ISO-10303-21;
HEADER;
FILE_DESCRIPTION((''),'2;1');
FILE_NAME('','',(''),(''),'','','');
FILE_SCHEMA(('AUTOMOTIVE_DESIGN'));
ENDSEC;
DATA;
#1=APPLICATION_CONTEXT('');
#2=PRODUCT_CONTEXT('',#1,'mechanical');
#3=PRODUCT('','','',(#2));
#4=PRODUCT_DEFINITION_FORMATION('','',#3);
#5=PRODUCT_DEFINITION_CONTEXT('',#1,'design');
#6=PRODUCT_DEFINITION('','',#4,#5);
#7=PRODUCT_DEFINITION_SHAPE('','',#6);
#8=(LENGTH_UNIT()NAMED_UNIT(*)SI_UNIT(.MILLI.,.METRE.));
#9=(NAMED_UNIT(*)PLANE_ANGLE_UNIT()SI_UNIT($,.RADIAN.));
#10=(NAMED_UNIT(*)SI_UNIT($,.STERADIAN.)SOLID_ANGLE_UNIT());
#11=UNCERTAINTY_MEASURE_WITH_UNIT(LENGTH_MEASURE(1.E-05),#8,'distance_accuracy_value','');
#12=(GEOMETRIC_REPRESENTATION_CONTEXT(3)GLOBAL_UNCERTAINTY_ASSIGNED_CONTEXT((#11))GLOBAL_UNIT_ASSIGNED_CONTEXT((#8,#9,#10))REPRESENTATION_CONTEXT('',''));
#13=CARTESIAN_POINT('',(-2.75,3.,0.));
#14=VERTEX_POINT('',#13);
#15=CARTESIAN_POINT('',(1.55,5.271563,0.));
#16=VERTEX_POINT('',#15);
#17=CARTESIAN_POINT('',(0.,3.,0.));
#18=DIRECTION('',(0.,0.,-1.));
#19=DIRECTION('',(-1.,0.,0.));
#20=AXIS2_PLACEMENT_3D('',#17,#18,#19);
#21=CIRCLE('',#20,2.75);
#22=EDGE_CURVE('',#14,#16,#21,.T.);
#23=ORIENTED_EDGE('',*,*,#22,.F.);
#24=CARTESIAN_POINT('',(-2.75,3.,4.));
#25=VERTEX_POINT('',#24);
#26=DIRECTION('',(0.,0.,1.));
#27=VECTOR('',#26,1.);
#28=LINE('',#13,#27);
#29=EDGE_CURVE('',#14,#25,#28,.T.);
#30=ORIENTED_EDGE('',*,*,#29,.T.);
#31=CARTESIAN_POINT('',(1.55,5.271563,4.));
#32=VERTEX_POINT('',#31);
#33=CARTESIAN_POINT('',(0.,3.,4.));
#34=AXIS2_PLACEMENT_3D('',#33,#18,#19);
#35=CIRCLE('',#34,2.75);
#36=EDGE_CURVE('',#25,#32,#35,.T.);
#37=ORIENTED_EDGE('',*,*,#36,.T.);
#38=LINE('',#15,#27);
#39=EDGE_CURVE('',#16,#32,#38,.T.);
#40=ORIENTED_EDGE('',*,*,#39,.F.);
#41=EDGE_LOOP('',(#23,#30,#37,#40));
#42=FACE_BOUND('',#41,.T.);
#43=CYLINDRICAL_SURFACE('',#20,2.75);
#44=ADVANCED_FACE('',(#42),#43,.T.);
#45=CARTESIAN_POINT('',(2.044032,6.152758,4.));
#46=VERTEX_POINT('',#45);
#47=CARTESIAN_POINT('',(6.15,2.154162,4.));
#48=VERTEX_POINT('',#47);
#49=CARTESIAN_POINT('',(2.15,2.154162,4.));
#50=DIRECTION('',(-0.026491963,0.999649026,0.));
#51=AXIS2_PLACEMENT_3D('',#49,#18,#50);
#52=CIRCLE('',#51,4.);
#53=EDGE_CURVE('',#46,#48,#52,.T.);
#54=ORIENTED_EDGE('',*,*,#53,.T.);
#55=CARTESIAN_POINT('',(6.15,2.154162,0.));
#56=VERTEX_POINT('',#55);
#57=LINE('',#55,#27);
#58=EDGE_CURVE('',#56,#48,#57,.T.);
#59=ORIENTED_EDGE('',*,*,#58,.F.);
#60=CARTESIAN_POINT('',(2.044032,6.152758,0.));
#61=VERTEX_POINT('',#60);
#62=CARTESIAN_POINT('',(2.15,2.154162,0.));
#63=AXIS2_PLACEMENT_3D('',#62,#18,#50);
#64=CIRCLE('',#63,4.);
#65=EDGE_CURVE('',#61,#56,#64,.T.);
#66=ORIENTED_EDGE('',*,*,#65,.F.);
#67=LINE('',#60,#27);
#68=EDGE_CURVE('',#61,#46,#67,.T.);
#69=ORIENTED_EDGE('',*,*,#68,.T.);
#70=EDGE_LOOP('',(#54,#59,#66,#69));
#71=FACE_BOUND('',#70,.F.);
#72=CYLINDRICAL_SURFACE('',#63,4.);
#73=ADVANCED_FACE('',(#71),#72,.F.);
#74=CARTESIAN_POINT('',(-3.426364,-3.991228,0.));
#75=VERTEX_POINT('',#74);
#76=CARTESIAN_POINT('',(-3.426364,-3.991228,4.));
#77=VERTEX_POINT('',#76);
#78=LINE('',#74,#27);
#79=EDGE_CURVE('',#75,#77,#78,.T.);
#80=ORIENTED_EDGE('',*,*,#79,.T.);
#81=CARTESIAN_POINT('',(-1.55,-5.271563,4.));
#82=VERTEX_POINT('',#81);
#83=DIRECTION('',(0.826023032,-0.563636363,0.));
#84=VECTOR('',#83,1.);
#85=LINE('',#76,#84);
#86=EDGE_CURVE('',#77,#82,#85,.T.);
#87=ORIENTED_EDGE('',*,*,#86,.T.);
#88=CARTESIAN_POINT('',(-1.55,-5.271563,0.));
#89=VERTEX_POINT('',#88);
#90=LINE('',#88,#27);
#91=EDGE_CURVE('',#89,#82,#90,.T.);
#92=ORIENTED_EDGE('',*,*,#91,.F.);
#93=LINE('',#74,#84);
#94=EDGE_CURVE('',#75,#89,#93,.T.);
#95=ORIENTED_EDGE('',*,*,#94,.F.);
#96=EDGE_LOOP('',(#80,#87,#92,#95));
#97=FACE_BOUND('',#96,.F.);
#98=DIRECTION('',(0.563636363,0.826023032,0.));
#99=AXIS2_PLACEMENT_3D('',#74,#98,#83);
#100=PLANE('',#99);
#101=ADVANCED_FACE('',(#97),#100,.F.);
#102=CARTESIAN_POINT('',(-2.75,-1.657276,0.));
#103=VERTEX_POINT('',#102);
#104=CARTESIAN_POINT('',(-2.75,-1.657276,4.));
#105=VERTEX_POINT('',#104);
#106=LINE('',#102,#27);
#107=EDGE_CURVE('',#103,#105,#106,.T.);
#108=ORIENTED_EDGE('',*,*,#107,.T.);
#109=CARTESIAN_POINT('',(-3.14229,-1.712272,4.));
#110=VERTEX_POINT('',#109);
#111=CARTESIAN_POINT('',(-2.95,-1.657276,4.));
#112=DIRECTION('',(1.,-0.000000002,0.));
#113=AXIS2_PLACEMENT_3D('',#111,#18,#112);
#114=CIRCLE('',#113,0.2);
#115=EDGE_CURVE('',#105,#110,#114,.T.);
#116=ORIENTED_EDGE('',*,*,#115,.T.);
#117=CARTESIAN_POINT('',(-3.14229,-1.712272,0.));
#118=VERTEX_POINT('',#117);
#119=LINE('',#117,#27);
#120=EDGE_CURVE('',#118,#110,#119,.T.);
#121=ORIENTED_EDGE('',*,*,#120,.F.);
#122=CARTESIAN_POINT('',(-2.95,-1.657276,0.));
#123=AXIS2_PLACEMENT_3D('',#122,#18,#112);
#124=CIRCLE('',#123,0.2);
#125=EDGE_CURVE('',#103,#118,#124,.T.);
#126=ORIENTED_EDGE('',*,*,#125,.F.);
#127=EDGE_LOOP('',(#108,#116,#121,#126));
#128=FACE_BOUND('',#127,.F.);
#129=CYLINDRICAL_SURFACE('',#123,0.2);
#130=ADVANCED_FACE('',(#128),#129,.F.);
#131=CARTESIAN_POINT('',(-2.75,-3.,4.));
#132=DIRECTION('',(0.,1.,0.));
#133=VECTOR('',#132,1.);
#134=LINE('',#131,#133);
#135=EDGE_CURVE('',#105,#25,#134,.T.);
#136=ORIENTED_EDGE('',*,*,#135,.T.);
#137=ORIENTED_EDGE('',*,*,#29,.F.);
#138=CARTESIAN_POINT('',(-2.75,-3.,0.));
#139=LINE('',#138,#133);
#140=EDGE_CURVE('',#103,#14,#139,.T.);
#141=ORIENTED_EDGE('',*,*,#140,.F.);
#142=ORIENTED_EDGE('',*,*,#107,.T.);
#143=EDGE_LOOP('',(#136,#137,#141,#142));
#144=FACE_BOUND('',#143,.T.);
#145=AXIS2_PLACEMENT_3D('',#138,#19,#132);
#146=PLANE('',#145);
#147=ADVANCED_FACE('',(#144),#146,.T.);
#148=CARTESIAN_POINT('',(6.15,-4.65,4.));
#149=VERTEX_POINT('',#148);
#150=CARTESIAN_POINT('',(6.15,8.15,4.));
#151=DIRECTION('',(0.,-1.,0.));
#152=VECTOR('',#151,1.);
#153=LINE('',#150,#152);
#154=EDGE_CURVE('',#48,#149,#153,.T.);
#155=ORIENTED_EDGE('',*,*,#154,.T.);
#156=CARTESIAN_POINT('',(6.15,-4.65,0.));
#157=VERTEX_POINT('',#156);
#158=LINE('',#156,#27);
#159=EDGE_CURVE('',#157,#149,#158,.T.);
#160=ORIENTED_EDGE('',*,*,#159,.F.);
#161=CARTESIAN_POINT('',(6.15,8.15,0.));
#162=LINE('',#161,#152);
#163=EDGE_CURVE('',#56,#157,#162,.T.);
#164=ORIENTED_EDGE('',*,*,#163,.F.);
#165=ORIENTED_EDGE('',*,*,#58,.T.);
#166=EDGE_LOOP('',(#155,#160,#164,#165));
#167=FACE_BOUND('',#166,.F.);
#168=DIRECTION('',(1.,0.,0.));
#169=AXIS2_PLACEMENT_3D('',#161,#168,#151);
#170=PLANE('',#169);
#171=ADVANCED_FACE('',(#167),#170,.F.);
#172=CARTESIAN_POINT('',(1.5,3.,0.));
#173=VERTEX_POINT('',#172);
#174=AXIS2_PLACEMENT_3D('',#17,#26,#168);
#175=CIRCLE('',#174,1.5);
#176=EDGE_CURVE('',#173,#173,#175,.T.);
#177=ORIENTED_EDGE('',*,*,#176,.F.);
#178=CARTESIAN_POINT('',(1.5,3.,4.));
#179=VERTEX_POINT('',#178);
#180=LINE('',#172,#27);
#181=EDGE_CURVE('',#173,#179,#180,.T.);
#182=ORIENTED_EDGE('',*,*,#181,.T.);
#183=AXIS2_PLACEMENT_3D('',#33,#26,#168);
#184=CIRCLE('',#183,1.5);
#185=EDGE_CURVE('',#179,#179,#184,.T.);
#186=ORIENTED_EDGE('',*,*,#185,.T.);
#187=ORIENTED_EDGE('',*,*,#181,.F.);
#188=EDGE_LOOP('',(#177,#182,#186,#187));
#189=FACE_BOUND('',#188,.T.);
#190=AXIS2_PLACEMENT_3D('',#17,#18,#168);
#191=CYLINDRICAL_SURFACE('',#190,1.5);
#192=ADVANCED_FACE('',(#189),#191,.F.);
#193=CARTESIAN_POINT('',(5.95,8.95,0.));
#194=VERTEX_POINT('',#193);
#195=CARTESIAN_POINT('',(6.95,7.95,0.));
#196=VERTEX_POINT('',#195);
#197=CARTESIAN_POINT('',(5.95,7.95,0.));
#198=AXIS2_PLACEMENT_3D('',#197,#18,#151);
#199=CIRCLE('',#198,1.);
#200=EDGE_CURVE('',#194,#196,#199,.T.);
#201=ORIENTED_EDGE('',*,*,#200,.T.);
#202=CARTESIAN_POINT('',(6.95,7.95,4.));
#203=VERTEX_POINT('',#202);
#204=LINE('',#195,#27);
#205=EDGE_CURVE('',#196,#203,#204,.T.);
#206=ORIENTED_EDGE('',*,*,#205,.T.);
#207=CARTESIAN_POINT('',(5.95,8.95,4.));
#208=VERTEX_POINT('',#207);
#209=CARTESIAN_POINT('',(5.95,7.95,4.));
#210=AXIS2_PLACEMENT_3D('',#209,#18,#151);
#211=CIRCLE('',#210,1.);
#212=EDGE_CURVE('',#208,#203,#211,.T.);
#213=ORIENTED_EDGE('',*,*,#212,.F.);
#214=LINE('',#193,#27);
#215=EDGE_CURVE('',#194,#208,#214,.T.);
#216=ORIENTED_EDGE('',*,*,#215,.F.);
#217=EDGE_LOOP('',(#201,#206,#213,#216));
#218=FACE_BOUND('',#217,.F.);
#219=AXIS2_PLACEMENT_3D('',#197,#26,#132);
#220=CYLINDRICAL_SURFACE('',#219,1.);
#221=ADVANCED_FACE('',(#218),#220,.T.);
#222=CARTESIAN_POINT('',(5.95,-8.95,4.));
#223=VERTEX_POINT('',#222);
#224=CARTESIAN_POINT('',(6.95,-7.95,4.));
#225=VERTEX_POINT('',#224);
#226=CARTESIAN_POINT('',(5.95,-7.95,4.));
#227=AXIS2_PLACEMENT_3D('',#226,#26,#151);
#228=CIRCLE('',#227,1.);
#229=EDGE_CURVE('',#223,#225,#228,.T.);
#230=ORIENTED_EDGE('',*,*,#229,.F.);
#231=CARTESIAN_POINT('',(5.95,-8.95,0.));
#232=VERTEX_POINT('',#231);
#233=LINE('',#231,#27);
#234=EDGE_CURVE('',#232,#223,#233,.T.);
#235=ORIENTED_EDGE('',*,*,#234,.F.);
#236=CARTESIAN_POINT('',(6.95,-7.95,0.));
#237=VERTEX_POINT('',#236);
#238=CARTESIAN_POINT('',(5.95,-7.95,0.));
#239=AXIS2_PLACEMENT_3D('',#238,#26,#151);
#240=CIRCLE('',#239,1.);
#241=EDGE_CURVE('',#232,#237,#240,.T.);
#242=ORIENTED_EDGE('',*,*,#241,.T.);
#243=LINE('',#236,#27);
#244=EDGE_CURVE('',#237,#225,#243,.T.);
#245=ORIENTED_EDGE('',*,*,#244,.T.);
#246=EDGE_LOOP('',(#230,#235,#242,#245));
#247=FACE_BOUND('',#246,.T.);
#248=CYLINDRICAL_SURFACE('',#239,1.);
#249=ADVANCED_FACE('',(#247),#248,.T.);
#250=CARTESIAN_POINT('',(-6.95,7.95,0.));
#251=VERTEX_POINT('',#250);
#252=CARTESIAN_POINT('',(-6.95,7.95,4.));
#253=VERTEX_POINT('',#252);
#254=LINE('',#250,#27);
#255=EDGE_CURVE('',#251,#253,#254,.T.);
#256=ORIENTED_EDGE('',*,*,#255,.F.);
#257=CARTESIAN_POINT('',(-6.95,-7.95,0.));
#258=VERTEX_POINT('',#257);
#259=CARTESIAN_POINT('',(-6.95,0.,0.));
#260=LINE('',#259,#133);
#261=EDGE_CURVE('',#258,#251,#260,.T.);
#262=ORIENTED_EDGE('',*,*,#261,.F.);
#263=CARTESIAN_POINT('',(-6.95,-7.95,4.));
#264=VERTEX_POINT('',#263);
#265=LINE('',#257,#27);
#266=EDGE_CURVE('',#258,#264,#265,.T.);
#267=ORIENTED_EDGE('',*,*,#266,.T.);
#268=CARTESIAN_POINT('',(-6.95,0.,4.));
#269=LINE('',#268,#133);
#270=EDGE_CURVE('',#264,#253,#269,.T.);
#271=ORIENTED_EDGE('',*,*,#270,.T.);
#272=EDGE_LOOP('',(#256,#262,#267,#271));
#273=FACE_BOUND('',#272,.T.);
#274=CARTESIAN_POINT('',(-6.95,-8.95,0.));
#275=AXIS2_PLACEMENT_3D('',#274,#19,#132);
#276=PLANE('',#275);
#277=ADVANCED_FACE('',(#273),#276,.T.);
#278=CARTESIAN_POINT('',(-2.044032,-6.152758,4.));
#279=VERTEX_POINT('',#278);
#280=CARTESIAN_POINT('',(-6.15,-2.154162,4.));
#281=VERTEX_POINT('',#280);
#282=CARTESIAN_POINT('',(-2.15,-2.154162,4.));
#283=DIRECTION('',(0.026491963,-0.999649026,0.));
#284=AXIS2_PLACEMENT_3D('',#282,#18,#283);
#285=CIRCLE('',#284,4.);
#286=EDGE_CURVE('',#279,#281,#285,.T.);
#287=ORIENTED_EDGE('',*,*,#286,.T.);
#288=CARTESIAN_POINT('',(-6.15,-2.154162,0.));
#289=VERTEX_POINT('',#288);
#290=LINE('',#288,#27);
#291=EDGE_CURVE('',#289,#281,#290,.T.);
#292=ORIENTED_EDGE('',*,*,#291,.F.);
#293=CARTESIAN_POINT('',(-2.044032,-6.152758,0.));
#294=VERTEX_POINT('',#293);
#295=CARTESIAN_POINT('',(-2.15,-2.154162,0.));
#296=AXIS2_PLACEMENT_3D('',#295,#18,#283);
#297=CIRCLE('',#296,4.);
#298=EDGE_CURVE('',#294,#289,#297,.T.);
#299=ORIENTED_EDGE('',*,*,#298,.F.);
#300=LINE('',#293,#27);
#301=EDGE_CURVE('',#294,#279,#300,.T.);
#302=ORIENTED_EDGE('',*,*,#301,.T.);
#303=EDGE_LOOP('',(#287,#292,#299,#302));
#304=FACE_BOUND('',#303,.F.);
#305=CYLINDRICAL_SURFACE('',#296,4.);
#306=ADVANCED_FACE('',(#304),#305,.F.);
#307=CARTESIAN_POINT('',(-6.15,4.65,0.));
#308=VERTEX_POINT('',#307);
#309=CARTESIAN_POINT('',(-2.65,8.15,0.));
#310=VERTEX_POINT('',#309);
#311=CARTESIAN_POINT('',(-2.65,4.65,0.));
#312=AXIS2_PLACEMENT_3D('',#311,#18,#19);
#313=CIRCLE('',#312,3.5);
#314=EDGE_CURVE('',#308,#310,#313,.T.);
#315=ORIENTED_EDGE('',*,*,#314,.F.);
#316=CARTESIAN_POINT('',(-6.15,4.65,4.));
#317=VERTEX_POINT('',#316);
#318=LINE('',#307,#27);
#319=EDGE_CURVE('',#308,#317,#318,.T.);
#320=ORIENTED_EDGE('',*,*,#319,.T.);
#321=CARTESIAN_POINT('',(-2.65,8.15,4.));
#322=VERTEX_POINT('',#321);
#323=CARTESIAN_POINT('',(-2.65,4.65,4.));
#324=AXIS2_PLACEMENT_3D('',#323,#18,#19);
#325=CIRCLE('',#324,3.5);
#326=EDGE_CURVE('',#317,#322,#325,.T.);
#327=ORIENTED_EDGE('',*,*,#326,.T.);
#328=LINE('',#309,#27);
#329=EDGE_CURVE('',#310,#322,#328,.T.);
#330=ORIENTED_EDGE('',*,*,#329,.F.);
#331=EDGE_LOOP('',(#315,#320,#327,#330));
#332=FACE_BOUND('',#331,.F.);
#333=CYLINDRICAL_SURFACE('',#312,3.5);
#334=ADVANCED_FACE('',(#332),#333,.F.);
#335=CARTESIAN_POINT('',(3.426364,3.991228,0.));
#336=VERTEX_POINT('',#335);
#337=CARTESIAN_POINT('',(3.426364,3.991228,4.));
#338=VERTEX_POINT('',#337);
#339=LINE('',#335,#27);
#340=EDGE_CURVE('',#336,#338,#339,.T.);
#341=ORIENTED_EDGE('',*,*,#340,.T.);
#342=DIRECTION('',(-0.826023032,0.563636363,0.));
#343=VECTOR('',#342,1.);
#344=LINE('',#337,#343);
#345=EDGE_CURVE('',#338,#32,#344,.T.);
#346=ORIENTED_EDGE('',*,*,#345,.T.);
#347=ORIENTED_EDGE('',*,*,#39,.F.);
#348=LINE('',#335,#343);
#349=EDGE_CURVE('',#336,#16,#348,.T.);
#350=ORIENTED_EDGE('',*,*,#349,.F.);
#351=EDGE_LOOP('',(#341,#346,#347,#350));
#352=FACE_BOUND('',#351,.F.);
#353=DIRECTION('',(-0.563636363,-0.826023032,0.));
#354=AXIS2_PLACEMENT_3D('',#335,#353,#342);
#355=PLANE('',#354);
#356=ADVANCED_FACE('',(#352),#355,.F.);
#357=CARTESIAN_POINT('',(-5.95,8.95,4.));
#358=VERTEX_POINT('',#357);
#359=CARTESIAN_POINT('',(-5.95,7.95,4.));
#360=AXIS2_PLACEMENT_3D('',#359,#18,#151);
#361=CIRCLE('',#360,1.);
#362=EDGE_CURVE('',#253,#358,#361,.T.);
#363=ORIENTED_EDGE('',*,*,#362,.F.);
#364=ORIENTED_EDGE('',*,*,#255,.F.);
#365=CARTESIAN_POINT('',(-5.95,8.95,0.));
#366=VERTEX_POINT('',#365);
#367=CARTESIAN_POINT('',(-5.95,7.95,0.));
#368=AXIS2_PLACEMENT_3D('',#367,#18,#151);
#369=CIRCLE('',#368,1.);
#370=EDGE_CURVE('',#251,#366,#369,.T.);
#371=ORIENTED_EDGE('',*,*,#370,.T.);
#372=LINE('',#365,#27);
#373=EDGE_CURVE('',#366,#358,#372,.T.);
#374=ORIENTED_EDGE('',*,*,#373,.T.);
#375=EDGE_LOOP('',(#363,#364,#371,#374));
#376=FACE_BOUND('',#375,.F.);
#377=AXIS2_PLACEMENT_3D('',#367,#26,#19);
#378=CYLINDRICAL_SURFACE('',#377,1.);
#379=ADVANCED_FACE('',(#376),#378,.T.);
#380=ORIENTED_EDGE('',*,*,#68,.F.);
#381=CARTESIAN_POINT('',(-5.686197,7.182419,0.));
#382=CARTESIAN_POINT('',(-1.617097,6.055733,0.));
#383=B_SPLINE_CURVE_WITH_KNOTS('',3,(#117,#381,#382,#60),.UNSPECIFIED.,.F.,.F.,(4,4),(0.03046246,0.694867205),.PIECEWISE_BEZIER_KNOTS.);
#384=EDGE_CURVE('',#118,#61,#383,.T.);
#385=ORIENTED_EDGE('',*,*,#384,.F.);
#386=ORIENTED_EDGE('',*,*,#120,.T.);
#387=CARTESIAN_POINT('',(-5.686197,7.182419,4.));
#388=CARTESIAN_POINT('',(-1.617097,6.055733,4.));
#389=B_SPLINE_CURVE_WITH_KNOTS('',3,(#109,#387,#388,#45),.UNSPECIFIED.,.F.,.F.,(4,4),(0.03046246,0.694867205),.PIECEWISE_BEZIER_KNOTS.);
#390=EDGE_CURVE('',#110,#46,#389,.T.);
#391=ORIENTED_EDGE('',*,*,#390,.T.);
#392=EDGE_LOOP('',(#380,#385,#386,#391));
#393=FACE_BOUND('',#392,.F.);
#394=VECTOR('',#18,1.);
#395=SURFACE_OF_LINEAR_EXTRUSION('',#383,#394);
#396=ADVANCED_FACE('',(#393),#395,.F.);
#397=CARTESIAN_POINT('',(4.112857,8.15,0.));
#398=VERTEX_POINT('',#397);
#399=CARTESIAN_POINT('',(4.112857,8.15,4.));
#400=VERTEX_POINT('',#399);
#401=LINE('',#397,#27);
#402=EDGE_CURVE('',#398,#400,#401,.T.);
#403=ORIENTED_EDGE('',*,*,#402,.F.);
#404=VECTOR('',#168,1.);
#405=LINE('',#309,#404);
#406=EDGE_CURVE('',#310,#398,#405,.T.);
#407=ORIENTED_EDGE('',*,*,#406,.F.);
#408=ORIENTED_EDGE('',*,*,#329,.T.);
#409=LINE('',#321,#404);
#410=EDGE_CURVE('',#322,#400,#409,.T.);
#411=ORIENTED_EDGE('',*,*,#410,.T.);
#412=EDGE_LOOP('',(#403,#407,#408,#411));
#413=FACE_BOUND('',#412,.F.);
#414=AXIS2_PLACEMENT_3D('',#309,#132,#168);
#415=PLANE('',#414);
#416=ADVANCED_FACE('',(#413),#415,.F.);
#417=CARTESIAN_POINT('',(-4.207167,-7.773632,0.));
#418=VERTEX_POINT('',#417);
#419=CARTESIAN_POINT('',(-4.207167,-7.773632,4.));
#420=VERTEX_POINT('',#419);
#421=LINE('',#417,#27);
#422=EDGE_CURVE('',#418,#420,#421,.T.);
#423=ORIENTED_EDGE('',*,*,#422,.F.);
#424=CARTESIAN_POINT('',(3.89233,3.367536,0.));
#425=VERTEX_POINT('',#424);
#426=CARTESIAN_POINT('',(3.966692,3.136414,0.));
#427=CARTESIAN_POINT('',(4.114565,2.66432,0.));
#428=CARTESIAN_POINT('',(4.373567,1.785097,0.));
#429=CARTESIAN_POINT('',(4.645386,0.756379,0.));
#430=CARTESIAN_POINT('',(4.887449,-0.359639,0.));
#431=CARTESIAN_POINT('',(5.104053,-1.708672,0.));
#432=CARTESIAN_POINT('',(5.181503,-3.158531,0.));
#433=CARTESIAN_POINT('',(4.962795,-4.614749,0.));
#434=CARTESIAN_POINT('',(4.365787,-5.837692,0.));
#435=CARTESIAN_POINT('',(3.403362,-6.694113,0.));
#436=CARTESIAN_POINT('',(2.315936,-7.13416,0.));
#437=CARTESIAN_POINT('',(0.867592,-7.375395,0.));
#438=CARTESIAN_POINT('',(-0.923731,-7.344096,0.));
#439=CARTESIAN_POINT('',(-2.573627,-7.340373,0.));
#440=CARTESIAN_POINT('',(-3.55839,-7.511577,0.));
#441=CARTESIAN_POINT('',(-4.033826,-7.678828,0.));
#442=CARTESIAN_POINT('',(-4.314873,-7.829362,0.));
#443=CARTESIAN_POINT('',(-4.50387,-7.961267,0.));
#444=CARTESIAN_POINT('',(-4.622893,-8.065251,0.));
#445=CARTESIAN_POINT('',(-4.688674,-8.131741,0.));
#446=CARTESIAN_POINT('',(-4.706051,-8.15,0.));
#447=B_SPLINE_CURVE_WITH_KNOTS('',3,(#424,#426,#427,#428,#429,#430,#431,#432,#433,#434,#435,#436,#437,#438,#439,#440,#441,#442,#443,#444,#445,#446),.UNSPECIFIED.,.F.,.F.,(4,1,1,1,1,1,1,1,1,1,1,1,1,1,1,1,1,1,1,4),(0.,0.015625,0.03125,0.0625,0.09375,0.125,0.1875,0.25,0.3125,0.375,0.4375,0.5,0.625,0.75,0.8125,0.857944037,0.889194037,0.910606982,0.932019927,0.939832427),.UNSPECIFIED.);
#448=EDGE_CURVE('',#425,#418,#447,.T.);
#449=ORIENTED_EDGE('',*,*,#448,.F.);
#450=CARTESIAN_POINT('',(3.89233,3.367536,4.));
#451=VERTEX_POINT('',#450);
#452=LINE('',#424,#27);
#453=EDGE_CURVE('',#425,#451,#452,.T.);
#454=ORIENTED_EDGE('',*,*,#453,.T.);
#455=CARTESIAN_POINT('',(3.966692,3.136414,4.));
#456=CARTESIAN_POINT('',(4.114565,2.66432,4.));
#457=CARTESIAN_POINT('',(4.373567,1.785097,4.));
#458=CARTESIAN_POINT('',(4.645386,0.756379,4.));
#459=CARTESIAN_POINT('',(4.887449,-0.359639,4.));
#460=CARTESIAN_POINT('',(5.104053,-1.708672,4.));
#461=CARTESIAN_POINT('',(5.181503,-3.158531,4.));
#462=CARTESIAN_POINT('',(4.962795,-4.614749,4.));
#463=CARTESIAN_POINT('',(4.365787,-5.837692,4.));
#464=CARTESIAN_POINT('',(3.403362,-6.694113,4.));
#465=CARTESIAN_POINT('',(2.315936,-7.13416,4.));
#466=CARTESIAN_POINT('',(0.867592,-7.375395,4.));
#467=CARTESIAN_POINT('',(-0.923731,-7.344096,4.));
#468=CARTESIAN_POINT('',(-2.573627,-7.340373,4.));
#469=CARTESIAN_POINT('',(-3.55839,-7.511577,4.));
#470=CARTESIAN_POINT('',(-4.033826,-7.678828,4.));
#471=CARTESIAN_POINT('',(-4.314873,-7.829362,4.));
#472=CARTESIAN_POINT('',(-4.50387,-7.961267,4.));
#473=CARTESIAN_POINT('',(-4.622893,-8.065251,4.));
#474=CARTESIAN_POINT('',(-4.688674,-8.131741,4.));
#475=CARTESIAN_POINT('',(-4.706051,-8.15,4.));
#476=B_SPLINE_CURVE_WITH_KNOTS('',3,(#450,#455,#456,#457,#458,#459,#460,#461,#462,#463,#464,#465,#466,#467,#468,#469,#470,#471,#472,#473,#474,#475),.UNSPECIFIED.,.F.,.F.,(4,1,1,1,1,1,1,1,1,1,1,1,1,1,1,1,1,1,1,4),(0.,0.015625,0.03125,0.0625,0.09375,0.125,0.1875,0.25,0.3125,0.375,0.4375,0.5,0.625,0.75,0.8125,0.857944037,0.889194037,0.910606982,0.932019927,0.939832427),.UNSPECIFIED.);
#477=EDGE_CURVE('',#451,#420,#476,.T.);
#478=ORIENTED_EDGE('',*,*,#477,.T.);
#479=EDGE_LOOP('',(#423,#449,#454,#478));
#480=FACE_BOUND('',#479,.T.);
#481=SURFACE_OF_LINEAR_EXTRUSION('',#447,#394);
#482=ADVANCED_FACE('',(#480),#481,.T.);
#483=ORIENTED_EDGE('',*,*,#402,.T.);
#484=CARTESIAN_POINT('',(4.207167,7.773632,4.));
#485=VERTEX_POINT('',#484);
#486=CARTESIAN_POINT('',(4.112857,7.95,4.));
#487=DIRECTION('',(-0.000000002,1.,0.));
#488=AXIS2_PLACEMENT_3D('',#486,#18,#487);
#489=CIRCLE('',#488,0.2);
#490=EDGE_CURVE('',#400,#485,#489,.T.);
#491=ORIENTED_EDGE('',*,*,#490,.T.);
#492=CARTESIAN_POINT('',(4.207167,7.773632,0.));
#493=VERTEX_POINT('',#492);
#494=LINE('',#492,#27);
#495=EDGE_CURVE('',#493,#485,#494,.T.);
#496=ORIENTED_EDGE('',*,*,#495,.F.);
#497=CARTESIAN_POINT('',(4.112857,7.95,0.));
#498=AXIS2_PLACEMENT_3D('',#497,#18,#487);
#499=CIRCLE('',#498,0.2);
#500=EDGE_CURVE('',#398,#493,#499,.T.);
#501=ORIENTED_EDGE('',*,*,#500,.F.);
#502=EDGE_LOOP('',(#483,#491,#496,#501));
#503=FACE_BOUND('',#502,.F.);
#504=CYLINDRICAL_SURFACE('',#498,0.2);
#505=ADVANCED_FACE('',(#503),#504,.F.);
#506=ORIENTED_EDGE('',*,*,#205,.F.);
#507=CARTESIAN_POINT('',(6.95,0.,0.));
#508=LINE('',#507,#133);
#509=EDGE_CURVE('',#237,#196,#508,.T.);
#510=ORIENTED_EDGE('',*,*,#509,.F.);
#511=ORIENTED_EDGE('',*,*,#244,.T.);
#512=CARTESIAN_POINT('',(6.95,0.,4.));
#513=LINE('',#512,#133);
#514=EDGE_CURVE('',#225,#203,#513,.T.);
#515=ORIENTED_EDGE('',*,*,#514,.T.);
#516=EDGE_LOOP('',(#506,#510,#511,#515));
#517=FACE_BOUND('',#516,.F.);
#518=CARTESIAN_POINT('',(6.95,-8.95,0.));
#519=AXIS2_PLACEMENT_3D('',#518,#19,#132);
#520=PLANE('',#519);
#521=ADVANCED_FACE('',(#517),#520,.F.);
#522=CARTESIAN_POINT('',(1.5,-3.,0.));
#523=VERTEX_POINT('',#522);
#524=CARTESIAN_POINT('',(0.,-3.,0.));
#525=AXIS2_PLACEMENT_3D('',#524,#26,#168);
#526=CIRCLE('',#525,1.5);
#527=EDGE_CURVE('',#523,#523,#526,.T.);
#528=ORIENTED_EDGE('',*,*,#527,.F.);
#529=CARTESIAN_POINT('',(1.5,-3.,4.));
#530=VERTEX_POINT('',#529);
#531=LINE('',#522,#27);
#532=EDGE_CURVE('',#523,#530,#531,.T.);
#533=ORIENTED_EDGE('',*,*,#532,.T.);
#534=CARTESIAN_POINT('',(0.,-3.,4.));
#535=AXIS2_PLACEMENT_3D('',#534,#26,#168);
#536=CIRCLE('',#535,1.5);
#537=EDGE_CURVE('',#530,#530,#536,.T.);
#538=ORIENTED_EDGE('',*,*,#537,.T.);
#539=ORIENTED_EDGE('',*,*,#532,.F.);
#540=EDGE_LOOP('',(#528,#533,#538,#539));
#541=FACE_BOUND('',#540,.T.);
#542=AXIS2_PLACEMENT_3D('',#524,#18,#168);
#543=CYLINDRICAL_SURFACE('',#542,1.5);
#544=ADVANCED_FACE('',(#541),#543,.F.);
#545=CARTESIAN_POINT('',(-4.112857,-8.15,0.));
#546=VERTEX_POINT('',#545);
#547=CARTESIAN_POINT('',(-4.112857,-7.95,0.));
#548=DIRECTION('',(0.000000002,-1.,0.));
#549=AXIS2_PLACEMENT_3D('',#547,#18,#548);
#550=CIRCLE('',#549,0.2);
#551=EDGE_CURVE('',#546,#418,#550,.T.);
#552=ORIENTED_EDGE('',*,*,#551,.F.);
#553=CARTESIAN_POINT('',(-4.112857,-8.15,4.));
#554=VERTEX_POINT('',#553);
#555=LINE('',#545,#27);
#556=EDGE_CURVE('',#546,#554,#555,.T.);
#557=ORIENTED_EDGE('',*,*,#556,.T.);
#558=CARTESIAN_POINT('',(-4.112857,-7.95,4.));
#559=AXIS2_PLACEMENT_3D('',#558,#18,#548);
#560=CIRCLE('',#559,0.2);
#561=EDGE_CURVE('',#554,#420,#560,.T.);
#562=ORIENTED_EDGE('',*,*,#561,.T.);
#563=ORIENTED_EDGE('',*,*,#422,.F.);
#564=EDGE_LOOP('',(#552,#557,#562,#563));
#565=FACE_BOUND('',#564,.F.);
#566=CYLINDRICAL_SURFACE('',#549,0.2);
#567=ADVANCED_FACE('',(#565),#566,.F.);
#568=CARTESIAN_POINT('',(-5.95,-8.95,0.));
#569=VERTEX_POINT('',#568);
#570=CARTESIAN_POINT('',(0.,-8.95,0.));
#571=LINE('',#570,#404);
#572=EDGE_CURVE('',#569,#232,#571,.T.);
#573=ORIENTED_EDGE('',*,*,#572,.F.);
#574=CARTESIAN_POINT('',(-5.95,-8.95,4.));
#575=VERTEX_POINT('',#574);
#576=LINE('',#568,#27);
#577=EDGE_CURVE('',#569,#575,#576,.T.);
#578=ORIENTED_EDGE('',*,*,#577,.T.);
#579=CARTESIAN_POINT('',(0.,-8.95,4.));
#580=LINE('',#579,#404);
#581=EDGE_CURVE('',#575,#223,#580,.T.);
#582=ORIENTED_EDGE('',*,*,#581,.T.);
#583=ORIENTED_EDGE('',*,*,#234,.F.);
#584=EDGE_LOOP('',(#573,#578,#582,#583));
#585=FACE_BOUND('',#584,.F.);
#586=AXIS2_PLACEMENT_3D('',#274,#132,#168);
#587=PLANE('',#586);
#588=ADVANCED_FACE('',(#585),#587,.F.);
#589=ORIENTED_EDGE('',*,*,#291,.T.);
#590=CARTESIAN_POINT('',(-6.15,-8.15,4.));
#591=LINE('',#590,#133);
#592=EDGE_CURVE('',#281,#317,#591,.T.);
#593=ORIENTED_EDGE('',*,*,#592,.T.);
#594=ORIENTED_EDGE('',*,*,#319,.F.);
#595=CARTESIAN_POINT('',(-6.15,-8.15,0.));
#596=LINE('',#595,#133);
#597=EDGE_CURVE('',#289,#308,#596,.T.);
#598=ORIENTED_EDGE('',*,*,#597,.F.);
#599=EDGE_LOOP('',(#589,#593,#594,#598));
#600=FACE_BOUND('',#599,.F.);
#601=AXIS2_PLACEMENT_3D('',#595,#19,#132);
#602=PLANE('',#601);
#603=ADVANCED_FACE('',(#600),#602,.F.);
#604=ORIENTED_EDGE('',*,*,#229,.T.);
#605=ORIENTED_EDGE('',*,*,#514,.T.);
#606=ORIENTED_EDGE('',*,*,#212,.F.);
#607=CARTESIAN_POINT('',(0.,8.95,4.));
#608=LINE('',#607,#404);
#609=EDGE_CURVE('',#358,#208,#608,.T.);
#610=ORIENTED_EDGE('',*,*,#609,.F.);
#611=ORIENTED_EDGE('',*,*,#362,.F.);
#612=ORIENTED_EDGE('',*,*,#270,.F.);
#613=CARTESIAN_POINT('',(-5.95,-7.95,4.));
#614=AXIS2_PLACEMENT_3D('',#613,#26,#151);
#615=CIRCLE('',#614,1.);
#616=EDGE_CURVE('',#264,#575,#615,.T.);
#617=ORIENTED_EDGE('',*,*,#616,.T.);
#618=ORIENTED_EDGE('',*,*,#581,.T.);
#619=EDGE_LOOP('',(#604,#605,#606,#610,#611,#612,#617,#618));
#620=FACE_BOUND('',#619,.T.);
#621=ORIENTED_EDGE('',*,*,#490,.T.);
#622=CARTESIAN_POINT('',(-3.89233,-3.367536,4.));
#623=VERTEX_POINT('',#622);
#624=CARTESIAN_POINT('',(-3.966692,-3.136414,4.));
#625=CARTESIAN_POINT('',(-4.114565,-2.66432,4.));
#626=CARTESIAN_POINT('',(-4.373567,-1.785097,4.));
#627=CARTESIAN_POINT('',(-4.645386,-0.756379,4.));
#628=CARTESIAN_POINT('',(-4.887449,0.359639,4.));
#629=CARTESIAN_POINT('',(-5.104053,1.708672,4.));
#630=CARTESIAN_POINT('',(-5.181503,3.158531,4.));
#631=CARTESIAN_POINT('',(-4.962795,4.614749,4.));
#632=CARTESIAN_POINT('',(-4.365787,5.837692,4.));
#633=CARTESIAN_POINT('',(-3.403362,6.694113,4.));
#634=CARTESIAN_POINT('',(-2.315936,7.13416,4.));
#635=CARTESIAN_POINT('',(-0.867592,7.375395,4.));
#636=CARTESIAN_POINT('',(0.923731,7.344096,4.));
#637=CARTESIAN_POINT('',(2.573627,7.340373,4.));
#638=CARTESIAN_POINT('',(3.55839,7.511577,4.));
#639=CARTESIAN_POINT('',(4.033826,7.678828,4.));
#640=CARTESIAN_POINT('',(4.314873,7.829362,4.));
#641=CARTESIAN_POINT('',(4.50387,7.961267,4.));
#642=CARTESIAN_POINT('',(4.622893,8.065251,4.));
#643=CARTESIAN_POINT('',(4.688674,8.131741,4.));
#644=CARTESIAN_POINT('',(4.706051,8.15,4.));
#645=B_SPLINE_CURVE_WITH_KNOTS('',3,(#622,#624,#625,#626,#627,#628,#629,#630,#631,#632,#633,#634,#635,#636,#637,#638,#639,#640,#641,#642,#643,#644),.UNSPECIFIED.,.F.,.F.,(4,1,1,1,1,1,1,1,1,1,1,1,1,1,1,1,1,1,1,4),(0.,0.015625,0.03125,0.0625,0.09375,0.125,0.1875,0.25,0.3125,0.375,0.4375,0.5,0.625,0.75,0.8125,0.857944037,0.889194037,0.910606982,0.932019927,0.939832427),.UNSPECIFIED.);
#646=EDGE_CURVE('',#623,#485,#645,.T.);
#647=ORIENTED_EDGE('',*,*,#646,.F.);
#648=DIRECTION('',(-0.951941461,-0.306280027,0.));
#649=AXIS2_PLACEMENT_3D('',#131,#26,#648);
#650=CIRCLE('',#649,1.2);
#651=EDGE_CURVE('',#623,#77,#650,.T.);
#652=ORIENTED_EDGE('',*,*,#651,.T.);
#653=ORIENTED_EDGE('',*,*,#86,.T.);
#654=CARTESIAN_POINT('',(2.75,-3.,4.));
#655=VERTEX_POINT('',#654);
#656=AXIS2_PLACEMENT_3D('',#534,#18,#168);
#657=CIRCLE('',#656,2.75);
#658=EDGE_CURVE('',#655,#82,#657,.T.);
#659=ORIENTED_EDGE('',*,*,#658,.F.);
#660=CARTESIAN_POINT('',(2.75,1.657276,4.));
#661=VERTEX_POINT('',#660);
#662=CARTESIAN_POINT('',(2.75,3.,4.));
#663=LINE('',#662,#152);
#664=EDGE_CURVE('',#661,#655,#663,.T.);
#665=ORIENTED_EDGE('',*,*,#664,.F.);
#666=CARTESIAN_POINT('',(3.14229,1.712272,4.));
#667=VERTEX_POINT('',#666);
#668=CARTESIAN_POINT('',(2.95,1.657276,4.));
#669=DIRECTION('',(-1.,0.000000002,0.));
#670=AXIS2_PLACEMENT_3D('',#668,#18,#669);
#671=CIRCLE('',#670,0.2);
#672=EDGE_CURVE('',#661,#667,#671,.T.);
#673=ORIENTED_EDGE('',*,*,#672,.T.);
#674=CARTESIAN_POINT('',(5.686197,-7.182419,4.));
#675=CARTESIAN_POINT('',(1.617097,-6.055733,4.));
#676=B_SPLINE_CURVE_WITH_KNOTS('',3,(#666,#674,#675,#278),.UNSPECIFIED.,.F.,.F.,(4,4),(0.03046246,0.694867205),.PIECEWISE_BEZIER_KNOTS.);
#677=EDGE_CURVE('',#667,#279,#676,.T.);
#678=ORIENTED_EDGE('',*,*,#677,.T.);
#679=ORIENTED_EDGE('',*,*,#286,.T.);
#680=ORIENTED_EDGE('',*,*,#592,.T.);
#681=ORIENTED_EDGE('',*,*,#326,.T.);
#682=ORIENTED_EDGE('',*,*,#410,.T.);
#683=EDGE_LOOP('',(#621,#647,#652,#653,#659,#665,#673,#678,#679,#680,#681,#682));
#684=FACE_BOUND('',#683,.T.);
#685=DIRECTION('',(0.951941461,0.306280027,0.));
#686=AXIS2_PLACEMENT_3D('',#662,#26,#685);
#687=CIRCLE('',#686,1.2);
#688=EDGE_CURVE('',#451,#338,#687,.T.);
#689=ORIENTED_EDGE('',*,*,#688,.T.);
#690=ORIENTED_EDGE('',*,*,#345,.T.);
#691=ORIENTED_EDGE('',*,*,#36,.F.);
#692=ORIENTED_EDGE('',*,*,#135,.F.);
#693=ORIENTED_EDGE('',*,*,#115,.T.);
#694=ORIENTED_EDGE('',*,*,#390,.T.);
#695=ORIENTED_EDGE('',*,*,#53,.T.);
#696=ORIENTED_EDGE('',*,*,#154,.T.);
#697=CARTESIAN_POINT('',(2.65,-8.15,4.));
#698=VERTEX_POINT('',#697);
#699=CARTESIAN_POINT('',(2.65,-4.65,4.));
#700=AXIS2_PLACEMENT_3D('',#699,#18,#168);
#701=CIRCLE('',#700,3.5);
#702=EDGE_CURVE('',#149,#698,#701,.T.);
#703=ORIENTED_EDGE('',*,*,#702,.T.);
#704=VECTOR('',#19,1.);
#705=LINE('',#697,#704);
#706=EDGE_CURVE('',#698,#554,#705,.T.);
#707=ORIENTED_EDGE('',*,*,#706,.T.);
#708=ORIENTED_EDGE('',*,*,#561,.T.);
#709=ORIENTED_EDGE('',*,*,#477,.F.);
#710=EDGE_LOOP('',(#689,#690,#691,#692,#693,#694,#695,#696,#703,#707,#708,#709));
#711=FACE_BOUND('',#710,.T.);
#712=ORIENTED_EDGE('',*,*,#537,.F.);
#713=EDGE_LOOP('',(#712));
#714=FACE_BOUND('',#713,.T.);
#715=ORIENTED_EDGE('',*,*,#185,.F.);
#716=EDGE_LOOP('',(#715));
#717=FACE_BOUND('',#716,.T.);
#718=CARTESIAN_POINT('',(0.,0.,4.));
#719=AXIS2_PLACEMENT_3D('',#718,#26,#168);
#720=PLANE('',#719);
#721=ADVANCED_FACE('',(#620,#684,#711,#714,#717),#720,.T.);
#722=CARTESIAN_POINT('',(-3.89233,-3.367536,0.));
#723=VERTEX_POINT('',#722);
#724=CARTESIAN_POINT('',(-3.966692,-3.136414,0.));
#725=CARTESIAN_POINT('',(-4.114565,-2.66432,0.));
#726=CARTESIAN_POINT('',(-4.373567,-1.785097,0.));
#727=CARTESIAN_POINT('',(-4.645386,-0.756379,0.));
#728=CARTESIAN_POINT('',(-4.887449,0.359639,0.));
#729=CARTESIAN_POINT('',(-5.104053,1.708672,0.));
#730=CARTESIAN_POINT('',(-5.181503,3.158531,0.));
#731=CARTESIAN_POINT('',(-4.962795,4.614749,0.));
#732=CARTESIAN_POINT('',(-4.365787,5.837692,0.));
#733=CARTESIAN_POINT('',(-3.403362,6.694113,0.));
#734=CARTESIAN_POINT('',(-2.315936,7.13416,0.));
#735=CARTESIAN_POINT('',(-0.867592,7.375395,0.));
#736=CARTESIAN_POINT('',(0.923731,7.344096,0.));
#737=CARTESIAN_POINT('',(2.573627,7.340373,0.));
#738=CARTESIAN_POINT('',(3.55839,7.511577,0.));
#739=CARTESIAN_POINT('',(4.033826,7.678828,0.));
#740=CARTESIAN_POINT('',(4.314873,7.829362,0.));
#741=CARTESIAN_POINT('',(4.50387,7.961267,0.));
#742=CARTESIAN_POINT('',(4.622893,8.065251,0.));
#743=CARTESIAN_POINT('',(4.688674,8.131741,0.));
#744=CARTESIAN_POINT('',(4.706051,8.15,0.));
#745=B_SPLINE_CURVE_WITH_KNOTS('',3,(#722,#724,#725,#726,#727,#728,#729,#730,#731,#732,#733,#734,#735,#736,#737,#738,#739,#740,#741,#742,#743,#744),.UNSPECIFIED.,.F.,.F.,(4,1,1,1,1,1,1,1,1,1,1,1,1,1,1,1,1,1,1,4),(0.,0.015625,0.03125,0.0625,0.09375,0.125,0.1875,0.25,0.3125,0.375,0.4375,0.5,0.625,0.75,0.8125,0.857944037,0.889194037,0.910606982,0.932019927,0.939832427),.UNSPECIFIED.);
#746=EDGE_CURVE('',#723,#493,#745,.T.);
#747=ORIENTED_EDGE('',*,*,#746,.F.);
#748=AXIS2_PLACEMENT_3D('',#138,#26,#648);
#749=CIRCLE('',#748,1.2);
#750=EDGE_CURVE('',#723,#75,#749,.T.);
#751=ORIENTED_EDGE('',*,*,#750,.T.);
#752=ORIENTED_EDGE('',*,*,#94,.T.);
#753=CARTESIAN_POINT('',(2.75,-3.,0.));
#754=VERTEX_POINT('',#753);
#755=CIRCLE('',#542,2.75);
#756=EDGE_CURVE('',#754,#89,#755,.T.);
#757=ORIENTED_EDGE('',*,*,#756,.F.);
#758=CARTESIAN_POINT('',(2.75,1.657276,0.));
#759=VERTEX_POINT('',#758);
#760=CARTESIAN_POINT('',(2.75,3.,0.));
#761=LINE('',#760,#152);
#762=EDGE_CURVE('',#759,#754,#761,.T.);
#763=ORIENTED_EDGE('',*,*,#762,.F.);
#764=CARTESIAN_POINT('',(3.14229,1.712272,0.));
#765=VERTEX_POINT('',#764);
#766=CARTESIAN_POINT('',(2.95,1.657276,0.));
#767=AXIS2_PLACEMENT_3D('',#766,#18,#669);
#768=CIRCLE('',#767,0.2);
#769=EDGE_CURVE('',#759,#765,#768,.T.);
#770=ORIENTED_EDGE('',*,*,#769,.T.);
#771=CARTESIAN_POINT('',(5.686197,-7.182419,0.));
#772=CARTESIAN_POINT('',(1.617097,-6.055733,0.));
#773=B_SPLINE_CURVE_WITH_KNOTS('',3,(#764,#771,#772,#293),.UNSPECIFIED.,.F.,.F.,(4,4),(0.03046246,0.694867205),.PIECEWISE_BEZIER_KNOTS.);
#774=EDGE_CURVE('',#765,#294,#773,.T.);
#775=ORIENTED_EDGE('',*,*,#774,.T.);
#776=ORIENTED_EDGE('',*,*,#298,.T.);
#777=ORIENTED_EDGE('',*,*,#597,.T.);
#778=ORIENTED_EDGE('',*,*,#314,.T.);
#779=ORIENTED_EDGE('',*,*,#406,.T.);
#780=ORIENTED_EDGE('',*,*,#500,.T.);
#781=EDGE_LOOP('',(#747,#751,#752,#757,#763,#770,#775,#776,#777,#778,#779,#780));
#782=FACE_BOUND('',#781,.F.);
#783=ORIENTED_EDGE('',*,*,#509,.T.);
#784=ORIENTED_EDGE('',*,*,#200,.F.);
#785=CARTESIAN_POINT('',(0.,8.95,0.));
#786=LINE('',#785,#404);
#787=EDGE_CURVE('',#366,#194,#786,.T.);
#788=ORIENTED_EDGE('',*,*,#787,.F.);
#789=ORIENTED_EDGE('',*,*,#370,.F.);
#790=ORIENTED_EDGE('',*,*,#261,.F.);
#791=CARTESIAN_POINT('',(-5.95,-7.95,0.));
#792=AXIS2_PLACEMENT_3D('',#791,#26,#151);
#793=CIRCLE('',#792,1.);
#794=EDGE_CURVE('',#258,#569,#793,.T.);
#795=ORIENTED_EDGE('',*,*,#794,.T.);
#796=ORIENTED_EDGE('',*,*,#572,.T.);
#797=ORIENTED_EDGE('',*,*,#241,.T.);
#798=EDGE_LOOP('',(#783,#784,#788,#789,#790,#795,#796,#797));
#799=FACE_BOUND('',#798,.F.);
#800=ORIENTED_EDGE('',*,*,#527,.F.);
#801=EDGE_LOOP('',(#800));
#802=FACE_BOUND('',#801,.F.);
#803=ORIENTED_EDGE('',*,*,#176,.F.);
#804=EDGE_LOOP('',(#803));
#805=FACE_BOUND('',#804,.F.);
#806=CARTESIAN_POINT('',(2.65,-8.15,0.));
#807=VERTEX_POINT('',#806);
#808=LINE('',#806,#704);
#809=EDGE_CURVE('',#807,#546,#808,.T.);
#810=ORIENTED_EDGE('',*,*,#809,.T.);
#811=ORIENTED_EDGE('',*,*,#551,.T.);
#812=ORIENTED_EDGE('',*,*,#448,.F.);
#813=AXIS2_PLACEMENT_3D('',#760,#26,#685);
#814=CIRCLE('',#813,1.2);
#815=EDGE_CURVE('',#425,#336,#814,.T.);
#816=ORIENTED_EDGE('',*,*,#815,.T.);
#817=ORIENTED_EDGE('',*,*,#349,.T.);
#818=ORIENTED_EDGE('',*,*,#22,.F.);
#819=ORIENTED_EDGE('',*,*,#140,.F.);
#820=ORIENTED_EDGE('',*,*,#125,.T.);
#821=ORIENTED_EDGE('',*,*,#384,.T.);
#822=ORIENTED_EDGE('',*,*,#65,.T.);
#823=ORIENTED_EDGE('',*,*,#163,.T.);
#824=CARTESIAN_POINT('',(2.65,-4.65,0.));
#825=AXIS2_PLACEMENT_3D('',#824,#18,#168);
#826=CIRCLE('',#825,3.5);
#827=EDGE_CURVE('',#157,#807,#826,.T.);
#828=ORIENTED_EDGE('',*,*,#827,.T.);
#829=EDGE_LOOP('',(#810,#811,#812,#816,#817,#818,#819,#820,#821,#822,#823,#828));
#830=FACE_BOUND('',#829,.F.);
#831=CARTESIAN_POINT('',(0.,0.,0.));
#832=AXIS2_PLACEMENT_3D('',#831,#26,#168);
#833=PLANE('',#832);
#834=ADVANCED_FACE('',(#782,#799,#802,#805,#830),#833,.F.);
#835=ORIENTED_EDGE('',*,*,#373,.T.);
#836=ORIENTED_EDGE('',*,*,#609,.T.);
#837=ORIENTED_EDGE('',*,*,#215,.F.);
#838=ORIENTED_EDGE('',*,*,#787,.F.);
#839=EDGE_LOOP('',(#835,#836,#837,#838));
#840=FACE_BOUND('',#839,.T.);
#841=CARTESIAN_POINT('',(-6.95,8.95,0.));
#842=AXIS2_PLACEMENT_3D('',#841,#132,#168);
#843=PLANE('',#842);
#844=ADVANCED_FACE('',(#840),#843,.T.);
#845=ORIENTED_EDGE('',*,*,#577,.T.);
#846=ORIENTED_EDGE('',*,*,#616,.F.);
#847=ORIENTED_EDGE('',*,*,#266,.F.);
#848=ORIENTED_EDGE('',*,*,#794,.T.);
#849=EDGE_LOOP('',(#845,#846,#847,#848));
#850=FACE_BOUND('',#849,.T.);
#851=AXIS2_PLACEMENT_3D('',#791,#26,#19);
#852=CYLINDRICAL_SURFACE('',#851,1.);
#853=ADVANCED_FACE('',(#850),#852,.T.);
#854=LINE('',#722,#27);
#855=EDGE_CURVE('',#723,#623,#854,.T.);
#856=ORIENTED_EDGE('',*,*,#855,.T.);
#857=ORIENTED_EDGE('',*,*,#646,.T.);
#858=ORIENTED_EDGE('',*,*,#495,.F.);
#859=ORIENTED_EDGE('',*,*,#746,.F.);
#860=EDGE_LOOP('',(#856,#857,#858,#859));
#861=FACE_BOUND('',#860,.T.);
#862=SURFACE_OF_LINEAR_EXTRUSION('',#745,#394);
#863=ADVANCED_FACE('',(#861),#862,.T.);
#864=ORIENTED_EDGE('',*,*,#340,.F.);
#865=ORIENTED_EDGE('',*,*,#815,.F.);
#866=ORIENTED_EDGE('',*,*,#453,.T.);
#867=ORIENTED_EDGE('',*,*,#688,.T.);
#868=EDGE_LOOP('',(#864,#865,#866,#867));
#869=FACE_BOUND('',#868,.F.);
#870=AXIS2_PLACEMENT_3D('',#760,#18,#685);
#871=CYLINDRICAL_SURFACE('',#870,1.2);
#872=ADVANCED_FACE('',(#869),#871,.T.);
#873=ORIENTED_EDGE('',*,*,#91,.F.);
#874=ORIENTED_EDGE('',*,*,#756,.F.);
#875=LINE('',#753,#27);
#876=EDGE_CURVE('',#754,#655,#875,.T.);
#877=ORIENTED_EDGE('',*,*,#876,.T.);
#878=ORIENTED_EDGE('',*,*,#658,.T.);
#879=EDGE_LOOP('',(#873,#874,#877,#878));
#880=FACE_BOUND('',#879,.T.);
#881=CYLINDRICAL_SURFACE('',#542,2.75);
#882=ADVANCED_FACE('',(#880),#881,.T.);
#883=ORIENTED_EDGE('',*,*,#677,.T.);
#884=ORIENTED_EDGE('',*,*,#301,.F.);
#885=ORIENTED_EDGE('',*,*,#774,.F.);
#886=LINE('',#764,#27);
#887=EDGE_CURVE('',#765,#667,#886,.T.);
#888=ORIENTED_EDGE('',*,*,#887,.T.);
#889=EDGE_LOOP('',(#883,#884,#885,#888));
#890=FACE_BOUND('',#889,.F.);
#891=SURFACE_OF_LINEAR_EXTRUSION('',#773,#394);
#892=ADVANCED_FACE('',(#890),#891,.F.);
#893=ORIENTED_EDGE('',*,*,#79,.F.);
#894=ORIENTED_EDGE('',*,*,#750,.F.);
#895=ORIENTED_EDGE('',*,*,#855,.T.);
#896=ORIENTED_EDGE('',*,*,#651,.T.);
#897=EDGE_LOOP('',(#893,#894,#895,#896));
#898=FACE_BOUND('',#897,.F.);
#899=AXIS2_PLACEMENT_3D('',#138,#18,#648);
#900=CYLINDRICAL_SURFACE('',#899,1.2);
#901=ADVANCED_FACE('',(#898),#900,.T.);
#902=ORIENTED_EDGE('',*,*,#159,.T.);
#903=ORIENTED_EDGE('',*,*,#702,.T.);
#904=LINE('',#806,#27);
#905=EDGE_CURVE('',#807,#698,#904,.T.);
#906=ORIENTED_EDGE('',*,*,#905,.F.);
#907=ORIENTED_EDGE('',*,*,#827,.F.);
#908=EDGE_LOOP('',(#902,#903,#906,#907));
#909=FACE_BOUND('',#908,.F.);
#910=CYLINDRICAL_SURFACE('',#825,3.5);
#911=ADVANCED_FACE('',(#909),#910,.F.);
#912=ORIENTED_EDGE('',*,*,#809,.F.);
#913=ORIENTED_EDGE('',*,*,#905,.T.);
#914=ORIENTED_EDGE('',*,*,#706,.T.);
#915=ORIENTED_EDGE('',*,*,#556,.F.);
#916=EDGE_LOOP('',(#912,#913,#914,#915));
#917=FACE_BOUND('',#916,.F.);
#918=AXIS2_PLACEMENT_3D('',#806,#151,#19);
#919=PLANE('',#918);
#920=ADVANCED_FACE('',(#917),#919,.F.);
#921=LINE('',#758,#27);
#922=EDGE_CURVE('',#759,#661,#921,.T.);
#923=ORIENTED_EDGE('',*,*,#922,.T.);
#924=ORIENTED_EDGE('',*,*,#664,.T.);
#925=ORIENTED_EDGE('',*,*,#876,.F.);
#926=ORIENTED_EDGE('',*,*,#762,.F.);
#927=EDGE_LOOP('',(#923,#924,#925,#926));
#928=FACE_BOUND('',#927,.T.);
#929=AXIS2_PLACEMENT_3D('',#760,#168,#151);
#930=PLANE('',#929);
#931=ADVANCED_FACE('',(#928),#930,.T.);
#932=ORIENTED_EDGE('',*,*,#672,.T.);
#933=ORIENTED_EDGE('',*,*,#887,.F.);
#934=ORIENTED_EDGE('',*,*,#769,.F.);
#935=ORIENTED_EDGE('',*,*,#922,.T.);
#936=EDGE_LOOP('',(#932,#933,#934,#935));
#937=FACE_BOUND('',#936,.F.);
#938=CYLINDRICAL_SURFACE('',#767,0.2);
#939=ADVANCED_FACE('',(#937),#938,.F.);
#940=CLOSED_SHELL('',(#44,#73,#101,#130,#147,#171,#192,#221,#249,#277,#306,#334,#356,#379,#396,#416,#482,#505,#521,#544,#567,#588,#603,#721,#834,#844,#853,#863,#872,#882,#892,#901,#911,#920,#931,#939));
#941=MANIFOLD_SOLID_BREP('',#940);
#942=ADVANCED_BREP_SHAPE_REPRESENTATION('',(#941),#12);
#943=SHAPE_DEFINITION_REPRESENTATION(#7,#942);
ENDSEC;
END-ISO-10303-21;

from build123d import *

# Parameters (mm, degrees)
SKETCH1_R           = 1.5
BOSS_EXTRUDE1_DEPTH = 4
SKETCH3_W           = 13.9
SKETCH3_H           = 17.9
BOSS_EXTRUDE2_DEPTH = 4
FILLET1_R           = 1


with BuildPart() as part:
    # Sketch1 → Boss-Extrude1 (new body)
    with BuildSketch(Plane.XY):
        with BuildLine():
            Line((2.75, 3), (2.75, -3))
            ThreePointArc((2.75, -3), (0, -5.75), (-2.75, -3))
            Line((-2.75, -3), (-2.75, 3))
            ThreePointArc((-2.75, 3), (0, 5.75), (2.75, 3))
        make_face()
        with Locations((0, 3)):
            Circle(SKETCH1_R, mode=Mode.SUBTRACT)
        with Locations((0, -3)):
            Circle(SKETCH1_R, mode=Mode.SUBTRACT)
    extrude(amount=BOSS_EXTRUDE1_DEPTH)

    # Sketch3 → Boss-Extrude2 (add)
    # profile 1 of 9: a face of its own
    with BuildSketch(Plane.XY):
        Rectangle(SKETCH3_W, SKETCH3_H)
        with BuildLine():
            ThreePointArc((-6.15, 4.65), (-5.124873734, 7.124873734), (-2.65, 8.15))
            Line((-2.65, 8.15), (4.112856791, 8.15))
            Line((4.112856791, 8.15), (4.706051065, 8.15))
            Line((4.706051065, 8.15), (6.15, 8.15))
            Line((6.15, 8.15), (6.15, 2.154161758))
            Line((6.15, 2.154161758), (6.15, -4.65))
            ThreePointArc((6.15, -4.65), (5.124873734, -7.124873734), (2.65, -8.15))
            Line((2.65, -8.15), (-4.112856791, -8.15))
            Line((-4.112856791, -8.15), (-4.706051065, -8.15))
            Line((-4.706051065, -8.15), (-6.15, -8.15))
            Line((-6.15, -8.15), (-6.15, -2.154161758))
            Line((-6.15, -2.154161758), (-6.15, 4.65))
        make_face(mode=Mode.SUBTRACT)
    # profile 2 of 9: a face of its own
    with BuildSketch(Plane.XY):
        with BuildLine():
            ThreePointArc((-2.75, -1.657276465), (-2.922233335, -1.855339617), (-3.142290123, -1.712271998))
            add(Edge.make_bspline(
                [(-2.75, -3), (-2.895116066, -2.548968307), (-3.025653874, -2.120086915), (-3.142290123, -1.712271998)],
                knots=[0, 0, 0, 0, 0.03046246, 0.03046246, 0.03046246, 0.03046246], degree=3))
            Line((-2.75, -3), (-2.75, -1.657276465))
        make_face()
    # profile 3 of 9: a face of its own
    with BuildSketch(Plane.XY):
        with BuildLine():
            ThreePointArc((2.75, 1.657276465), (2.922233335, 1.855339617), (3.142290123, 1.712271998))
            add(Edge.make_bspline(
                [(2.75, 3), (2.895116066, 2.548968307), (3.025653874, 2.120086915), (3.142290123, 1.712271998)],
                knots=[0, 0, 0, 0, 0.03046246, 0.03046246, 0.03046246, 0.03046246], degree=3))
            Line((2.75, 3), (2.75, 1.657276465))
        make_face()
    # profile 4 of 9: a face of its own
    with BuildSketch(Plane.XY):
        with BuildLine():
            add(Edge.make_bspline(
                [(-2.04403215, -6.152757863), (-3.725432845, -6.197317106), (-5.32078534, -6.499978045), (-6.15, -8.15)],
                knots=[0.694867205, 0.694867205, 0.694867205, 0.694867205, 1, 1, 1, 1], degree=3))
            Line((-6.15, -8.15), (-4.706051065, -8.15))
            add(Edge.make_bspline(
                [(-4.207167317, -7.773632416), (-4.252078901, -7.797648366), (-4.35473853, -7.857185348), (-4.503870008, -7.961266958), (-4.622893022, -8.065250612), (-4.688673957, -8.131740554), (-4.706051065, -8.15)],
                knots=[0.873569037, 0.873569037, 0.873569037, 0.873569037, 0.889194037, 0.910606982, 0.932019927, 0.939832427, 0.939832427, 0.939832427, 0.939832427], degree=3))
            add(Edge.make_bspline(
                [(3.892329753, 3.367536033), (3.966691683, 3.136413539), (4.114564902, 2.664320103), (4.373566525, 1.785097119), (4.645385903, 0.756379468), (4.887449448, -0.359638934), (5.104052776, -1.708671801), (5.181502836, -3.15853137), (4.962795165, -4.614749004), (4.365786787, -5.837691524), (3.403362237, -6.694112805), (2.315936187, -7.134159929), (0.867591801, -7.375395149), (-0.923730528, -7.344095734), (-2.573627433, -7.340372841), (-3.558390207, -7.511577042), (-3.980456832, -7.660053684), (-4.162255733, -7.749616466), (-4.207167317, -7.773632416)],
                knots=[0, 0, 0, 0, 0.015625, 0.03125, 0.0625, 0.09375, 0.125, 0.1875, 0.25, 0.3125, 0.375, 0.4375, 0.5, 0.625, 0.75, 0.8125, 0.857944037, 0.873569037, 0.873569037, 0.873569037, 0.873569037], degree=3))
            ThreePointArc((3.892329753, 3.367536033), (3.711332001, 3.718220568), (3.426363636, 3.991227639))
            Line((3.426363636, 3.991227639), (1.55, 5.271563338))
            ThreePointArc((1.55, 5.271563338), (2.431563283, 4.284523258), (2.75, 3))
            add(Edge.make_bspline(
                [(2.75, 3), (2.895116066, 2.548968307), (3.025653874, 2.120086915), (3.142290123, 1.712271998)],
                knots=[0, 0, 0, 0, 0.03046246, 0.03046246, 0.03046246, 0.03046246], degree=3))
            add(Edge.make_bspline(
                [(3.142290123, 1.712271998), (5.686197488, -7.182418828), (1.61709709, -6.055733312), (-2.04403215, -6.152757863)],
                knots=[0.03046246, 0.03046246, 0.03046246, 0.03046246, 0.694867205, 0.694867205, 0.694867205, 0.694867205], degree=3))
        make_face()
    # profile 5 of 9: a face of its own
    with BuildSketch(Plane.XY):
        with BuildLine():
            Line((6.15, 2.154161758), (6.15, 8.15))
            add(Edge.make_bspline(
                [(2.04403215, 6.152757863), (3.725432845, 6.197317106), (5.32078534, 6.499978045), (6.15, 8.15)],
                knots=[0.694867205, 0.694867205, 0.694867205, 0.694867205, 1, 1, 1, 1], degree=3))
            ThreePointArc((2.04403215, 6.152757863), (4.940710358, 5.019809276), (6.15, 2.154161758))
        make_face()
    # profile 6 of 9: a face of its own
    with BuildSketch(Plane.XY):
        with BuildLine():
            ThreePointArc((-2.04403215, -6.152757863), (-4.940710358, -5.019809276), (-6.15, -2.154161758))
            Line((-6.15, -2.154161758), (-6.15, -8.15))
            add(Edge.make_bspline(
                [(-2.04403215, -6.152757863), (-3.725432845, -6.197317106), (-5.32078534, -6.499978045), (-6.15, -8.15)],
                knots=[0.694867205, 0.694867205, 0.694867205, 0.694867205, 1, 1, 1, 1], degree=3))
        make_face()
    # profile 7 of 9: a face of its own
    with BuildSketch(Plane.XY):
        with BuildLine():
            Line((6.15, 8.15), (4.706051065, 8.15))
            add(Edge.make_bspline(
                [(4.207167317, 7.773632416), (4.252078901, 7.797648366), (4.35473853, 7.857185348), (4.503870008, 7.961266958), (4.622893022, 8.065250612), (4.688673957, 8.131740554), (4.706051065, 8.15)],
                knots=[0.873569037, 0.873569037, 0.873569037, 0.873569037, 0.889194037, 0.910606982, 0.932019927, 0.939832427, 0.939832427, 0.939832427, 0.939832427], degree=3))
            add(Edge.make_bspline(
                [(-3.892329753, -3.367536033), (-3.966691683, -3.136413539), (-4.114564902, -2.664320103), (-4.373566525, -1.785097119), (-4.645385903, -0.756379468), (-4.887449448, 0.359638934), (-5.104052776, 1.708671801), (-5.181502836, 3.15853137), (-4.962795165, 4.614749004), (-4.365786787, 5.837691524), (-3.403362237, 6.694112805), (-2.315936187, 7.134159929), (-0.867591801, 7.375395149), (0.923730528, 7.344095734), (2.573627433, 7.340372841), (3.558390207, 7.511577042), (3.980456832, 7.660053684), (4.162255733, 7.749616466), (4.207167317, 7.773632416)],
                knots=[0, 0, 0, 0, 0.015625, 0.03125, 0.0625, 0.09375, 0.125, 0.1875, 0.25, 0.3125, 0.375, 0.4375, 0.5, 0.625, 0.75, 0.8125, 0.857944037, 0.873569037, 0.873569037, 0.873569037, 0.873569037], degree=3))
            ThreePointArc((-3.892329753, -3.367536033), (-3.711332001, -3.718220568), (-3.426363636, -3.991227639))
            Line((-3.426363636, -3.991227639), (-1.55, -5.271563338))
            ThreePointArc((-1.55, -5.271563338), (-2.431563283, -4.284523258), (-2.75, -3))
            add(Edge.make_bspline(
                [(-2.75, -3), (-2.895116066, -2.548968307), (-3.025653874, -2.120086915), (-3.142290123, -1.712271998)],
                knots=[0, 0, 0, 0, 0.03046246, 0.03046246, 0.03046246, 0.03046246], degree=3))
            add(Edge.make_bspline(
                [(-3.142290123, -1.712271998), (-5.686197488, 7.182418828), (-1.61709709, 6.055733312), (2.04403215, 6.152757863)],
                knots=[0.03046246, 0.03046246, 0.03046246, 0.03046246, 0.694867205, 0.694867205, 0.694867205, 0.694867205], degree=3))
            add(Edge.make_bspline(
                [(2.04403215, 6.152757863), (3.725432845, 6.197317106), (5.32078534, 6.499978045), (6.15, 8.15)],
                knots=[0.694867205, 0.694867205, 0.694867205, 0.694867205, 1, 1, 1, 1], degree=3))
        make_face()
    # profile 8 of 9: a face of its own
    with BuildSketch(Plane.XY):
        with BuildLine():
            ThreePointArc((4.112856791, 8.15), (4.306858746, 7.998613183), (4.207167317, 7.773632416))
            add(Edge.make_bspline(
                [(4.207167317, 7.773632416), (4.252078901, 7.797648366), (4.35473853, 7.857185348), (4.503870008, 7.961266958), (4.622893022, 8.065250612), (4.688673957, 8.131740554), (4.706051065, 8.15)],
                knots=[0.873569037, 0.873569037, 0.873569037, 0.873569037, 0.889194037, 0.910606982, 0.932019927, 0.939832427, 0.939832427, 0.939832427, 0.939832427], degree=3))
            Line((4.706051065, 8.15), (4.112856791, 8.15))
        make_face()
    # profile 9 of 9: a face of its own
    with BuildSketch(Plane.XY):
        with BuildLine():
            ThreePointArc((-4.112856791, -8.15), (-4.306858746, -7.998613183), (-4.207167317, -7.773632416))
            add(Edge.make_bspline(
                [(-4.207167317, -7.773632416), (-4.252078901, -7.797648366), (-4.35473853, -7.857185348), (-4.503870008, -7.961266958), (-4.622893022, -8.065250612), (-4.688673957, -8.131740554), (-4.706051065, -8.15)],
                knots=[0.873569037, 0.873569037, 0.873569037, 0.873569037, 0.889194037, 0.910606982, 0.932019927, 0.939832427, 0.939832427, 0.939832427, 0.939832427], degree=3))
            Line((-4.706051065, -8.15), (-4.112856791, -8.15))
        make_face()
    extrude(amount=BOSS_EXTRUDE2_DEPTH)

    # Fillet1
    fillet1_edges = [part.edges().sort_by_distance(p)[0] for p in [
        (6.95, 8.95, 2),
        (-6.95, 8.95, 2),
        (-6.95, -8.95, 2),
        (6.95, -8.95, 2),
    ]]
    fillet(fillet1_edges, radius=FILLET1_R)


solid = part.part
